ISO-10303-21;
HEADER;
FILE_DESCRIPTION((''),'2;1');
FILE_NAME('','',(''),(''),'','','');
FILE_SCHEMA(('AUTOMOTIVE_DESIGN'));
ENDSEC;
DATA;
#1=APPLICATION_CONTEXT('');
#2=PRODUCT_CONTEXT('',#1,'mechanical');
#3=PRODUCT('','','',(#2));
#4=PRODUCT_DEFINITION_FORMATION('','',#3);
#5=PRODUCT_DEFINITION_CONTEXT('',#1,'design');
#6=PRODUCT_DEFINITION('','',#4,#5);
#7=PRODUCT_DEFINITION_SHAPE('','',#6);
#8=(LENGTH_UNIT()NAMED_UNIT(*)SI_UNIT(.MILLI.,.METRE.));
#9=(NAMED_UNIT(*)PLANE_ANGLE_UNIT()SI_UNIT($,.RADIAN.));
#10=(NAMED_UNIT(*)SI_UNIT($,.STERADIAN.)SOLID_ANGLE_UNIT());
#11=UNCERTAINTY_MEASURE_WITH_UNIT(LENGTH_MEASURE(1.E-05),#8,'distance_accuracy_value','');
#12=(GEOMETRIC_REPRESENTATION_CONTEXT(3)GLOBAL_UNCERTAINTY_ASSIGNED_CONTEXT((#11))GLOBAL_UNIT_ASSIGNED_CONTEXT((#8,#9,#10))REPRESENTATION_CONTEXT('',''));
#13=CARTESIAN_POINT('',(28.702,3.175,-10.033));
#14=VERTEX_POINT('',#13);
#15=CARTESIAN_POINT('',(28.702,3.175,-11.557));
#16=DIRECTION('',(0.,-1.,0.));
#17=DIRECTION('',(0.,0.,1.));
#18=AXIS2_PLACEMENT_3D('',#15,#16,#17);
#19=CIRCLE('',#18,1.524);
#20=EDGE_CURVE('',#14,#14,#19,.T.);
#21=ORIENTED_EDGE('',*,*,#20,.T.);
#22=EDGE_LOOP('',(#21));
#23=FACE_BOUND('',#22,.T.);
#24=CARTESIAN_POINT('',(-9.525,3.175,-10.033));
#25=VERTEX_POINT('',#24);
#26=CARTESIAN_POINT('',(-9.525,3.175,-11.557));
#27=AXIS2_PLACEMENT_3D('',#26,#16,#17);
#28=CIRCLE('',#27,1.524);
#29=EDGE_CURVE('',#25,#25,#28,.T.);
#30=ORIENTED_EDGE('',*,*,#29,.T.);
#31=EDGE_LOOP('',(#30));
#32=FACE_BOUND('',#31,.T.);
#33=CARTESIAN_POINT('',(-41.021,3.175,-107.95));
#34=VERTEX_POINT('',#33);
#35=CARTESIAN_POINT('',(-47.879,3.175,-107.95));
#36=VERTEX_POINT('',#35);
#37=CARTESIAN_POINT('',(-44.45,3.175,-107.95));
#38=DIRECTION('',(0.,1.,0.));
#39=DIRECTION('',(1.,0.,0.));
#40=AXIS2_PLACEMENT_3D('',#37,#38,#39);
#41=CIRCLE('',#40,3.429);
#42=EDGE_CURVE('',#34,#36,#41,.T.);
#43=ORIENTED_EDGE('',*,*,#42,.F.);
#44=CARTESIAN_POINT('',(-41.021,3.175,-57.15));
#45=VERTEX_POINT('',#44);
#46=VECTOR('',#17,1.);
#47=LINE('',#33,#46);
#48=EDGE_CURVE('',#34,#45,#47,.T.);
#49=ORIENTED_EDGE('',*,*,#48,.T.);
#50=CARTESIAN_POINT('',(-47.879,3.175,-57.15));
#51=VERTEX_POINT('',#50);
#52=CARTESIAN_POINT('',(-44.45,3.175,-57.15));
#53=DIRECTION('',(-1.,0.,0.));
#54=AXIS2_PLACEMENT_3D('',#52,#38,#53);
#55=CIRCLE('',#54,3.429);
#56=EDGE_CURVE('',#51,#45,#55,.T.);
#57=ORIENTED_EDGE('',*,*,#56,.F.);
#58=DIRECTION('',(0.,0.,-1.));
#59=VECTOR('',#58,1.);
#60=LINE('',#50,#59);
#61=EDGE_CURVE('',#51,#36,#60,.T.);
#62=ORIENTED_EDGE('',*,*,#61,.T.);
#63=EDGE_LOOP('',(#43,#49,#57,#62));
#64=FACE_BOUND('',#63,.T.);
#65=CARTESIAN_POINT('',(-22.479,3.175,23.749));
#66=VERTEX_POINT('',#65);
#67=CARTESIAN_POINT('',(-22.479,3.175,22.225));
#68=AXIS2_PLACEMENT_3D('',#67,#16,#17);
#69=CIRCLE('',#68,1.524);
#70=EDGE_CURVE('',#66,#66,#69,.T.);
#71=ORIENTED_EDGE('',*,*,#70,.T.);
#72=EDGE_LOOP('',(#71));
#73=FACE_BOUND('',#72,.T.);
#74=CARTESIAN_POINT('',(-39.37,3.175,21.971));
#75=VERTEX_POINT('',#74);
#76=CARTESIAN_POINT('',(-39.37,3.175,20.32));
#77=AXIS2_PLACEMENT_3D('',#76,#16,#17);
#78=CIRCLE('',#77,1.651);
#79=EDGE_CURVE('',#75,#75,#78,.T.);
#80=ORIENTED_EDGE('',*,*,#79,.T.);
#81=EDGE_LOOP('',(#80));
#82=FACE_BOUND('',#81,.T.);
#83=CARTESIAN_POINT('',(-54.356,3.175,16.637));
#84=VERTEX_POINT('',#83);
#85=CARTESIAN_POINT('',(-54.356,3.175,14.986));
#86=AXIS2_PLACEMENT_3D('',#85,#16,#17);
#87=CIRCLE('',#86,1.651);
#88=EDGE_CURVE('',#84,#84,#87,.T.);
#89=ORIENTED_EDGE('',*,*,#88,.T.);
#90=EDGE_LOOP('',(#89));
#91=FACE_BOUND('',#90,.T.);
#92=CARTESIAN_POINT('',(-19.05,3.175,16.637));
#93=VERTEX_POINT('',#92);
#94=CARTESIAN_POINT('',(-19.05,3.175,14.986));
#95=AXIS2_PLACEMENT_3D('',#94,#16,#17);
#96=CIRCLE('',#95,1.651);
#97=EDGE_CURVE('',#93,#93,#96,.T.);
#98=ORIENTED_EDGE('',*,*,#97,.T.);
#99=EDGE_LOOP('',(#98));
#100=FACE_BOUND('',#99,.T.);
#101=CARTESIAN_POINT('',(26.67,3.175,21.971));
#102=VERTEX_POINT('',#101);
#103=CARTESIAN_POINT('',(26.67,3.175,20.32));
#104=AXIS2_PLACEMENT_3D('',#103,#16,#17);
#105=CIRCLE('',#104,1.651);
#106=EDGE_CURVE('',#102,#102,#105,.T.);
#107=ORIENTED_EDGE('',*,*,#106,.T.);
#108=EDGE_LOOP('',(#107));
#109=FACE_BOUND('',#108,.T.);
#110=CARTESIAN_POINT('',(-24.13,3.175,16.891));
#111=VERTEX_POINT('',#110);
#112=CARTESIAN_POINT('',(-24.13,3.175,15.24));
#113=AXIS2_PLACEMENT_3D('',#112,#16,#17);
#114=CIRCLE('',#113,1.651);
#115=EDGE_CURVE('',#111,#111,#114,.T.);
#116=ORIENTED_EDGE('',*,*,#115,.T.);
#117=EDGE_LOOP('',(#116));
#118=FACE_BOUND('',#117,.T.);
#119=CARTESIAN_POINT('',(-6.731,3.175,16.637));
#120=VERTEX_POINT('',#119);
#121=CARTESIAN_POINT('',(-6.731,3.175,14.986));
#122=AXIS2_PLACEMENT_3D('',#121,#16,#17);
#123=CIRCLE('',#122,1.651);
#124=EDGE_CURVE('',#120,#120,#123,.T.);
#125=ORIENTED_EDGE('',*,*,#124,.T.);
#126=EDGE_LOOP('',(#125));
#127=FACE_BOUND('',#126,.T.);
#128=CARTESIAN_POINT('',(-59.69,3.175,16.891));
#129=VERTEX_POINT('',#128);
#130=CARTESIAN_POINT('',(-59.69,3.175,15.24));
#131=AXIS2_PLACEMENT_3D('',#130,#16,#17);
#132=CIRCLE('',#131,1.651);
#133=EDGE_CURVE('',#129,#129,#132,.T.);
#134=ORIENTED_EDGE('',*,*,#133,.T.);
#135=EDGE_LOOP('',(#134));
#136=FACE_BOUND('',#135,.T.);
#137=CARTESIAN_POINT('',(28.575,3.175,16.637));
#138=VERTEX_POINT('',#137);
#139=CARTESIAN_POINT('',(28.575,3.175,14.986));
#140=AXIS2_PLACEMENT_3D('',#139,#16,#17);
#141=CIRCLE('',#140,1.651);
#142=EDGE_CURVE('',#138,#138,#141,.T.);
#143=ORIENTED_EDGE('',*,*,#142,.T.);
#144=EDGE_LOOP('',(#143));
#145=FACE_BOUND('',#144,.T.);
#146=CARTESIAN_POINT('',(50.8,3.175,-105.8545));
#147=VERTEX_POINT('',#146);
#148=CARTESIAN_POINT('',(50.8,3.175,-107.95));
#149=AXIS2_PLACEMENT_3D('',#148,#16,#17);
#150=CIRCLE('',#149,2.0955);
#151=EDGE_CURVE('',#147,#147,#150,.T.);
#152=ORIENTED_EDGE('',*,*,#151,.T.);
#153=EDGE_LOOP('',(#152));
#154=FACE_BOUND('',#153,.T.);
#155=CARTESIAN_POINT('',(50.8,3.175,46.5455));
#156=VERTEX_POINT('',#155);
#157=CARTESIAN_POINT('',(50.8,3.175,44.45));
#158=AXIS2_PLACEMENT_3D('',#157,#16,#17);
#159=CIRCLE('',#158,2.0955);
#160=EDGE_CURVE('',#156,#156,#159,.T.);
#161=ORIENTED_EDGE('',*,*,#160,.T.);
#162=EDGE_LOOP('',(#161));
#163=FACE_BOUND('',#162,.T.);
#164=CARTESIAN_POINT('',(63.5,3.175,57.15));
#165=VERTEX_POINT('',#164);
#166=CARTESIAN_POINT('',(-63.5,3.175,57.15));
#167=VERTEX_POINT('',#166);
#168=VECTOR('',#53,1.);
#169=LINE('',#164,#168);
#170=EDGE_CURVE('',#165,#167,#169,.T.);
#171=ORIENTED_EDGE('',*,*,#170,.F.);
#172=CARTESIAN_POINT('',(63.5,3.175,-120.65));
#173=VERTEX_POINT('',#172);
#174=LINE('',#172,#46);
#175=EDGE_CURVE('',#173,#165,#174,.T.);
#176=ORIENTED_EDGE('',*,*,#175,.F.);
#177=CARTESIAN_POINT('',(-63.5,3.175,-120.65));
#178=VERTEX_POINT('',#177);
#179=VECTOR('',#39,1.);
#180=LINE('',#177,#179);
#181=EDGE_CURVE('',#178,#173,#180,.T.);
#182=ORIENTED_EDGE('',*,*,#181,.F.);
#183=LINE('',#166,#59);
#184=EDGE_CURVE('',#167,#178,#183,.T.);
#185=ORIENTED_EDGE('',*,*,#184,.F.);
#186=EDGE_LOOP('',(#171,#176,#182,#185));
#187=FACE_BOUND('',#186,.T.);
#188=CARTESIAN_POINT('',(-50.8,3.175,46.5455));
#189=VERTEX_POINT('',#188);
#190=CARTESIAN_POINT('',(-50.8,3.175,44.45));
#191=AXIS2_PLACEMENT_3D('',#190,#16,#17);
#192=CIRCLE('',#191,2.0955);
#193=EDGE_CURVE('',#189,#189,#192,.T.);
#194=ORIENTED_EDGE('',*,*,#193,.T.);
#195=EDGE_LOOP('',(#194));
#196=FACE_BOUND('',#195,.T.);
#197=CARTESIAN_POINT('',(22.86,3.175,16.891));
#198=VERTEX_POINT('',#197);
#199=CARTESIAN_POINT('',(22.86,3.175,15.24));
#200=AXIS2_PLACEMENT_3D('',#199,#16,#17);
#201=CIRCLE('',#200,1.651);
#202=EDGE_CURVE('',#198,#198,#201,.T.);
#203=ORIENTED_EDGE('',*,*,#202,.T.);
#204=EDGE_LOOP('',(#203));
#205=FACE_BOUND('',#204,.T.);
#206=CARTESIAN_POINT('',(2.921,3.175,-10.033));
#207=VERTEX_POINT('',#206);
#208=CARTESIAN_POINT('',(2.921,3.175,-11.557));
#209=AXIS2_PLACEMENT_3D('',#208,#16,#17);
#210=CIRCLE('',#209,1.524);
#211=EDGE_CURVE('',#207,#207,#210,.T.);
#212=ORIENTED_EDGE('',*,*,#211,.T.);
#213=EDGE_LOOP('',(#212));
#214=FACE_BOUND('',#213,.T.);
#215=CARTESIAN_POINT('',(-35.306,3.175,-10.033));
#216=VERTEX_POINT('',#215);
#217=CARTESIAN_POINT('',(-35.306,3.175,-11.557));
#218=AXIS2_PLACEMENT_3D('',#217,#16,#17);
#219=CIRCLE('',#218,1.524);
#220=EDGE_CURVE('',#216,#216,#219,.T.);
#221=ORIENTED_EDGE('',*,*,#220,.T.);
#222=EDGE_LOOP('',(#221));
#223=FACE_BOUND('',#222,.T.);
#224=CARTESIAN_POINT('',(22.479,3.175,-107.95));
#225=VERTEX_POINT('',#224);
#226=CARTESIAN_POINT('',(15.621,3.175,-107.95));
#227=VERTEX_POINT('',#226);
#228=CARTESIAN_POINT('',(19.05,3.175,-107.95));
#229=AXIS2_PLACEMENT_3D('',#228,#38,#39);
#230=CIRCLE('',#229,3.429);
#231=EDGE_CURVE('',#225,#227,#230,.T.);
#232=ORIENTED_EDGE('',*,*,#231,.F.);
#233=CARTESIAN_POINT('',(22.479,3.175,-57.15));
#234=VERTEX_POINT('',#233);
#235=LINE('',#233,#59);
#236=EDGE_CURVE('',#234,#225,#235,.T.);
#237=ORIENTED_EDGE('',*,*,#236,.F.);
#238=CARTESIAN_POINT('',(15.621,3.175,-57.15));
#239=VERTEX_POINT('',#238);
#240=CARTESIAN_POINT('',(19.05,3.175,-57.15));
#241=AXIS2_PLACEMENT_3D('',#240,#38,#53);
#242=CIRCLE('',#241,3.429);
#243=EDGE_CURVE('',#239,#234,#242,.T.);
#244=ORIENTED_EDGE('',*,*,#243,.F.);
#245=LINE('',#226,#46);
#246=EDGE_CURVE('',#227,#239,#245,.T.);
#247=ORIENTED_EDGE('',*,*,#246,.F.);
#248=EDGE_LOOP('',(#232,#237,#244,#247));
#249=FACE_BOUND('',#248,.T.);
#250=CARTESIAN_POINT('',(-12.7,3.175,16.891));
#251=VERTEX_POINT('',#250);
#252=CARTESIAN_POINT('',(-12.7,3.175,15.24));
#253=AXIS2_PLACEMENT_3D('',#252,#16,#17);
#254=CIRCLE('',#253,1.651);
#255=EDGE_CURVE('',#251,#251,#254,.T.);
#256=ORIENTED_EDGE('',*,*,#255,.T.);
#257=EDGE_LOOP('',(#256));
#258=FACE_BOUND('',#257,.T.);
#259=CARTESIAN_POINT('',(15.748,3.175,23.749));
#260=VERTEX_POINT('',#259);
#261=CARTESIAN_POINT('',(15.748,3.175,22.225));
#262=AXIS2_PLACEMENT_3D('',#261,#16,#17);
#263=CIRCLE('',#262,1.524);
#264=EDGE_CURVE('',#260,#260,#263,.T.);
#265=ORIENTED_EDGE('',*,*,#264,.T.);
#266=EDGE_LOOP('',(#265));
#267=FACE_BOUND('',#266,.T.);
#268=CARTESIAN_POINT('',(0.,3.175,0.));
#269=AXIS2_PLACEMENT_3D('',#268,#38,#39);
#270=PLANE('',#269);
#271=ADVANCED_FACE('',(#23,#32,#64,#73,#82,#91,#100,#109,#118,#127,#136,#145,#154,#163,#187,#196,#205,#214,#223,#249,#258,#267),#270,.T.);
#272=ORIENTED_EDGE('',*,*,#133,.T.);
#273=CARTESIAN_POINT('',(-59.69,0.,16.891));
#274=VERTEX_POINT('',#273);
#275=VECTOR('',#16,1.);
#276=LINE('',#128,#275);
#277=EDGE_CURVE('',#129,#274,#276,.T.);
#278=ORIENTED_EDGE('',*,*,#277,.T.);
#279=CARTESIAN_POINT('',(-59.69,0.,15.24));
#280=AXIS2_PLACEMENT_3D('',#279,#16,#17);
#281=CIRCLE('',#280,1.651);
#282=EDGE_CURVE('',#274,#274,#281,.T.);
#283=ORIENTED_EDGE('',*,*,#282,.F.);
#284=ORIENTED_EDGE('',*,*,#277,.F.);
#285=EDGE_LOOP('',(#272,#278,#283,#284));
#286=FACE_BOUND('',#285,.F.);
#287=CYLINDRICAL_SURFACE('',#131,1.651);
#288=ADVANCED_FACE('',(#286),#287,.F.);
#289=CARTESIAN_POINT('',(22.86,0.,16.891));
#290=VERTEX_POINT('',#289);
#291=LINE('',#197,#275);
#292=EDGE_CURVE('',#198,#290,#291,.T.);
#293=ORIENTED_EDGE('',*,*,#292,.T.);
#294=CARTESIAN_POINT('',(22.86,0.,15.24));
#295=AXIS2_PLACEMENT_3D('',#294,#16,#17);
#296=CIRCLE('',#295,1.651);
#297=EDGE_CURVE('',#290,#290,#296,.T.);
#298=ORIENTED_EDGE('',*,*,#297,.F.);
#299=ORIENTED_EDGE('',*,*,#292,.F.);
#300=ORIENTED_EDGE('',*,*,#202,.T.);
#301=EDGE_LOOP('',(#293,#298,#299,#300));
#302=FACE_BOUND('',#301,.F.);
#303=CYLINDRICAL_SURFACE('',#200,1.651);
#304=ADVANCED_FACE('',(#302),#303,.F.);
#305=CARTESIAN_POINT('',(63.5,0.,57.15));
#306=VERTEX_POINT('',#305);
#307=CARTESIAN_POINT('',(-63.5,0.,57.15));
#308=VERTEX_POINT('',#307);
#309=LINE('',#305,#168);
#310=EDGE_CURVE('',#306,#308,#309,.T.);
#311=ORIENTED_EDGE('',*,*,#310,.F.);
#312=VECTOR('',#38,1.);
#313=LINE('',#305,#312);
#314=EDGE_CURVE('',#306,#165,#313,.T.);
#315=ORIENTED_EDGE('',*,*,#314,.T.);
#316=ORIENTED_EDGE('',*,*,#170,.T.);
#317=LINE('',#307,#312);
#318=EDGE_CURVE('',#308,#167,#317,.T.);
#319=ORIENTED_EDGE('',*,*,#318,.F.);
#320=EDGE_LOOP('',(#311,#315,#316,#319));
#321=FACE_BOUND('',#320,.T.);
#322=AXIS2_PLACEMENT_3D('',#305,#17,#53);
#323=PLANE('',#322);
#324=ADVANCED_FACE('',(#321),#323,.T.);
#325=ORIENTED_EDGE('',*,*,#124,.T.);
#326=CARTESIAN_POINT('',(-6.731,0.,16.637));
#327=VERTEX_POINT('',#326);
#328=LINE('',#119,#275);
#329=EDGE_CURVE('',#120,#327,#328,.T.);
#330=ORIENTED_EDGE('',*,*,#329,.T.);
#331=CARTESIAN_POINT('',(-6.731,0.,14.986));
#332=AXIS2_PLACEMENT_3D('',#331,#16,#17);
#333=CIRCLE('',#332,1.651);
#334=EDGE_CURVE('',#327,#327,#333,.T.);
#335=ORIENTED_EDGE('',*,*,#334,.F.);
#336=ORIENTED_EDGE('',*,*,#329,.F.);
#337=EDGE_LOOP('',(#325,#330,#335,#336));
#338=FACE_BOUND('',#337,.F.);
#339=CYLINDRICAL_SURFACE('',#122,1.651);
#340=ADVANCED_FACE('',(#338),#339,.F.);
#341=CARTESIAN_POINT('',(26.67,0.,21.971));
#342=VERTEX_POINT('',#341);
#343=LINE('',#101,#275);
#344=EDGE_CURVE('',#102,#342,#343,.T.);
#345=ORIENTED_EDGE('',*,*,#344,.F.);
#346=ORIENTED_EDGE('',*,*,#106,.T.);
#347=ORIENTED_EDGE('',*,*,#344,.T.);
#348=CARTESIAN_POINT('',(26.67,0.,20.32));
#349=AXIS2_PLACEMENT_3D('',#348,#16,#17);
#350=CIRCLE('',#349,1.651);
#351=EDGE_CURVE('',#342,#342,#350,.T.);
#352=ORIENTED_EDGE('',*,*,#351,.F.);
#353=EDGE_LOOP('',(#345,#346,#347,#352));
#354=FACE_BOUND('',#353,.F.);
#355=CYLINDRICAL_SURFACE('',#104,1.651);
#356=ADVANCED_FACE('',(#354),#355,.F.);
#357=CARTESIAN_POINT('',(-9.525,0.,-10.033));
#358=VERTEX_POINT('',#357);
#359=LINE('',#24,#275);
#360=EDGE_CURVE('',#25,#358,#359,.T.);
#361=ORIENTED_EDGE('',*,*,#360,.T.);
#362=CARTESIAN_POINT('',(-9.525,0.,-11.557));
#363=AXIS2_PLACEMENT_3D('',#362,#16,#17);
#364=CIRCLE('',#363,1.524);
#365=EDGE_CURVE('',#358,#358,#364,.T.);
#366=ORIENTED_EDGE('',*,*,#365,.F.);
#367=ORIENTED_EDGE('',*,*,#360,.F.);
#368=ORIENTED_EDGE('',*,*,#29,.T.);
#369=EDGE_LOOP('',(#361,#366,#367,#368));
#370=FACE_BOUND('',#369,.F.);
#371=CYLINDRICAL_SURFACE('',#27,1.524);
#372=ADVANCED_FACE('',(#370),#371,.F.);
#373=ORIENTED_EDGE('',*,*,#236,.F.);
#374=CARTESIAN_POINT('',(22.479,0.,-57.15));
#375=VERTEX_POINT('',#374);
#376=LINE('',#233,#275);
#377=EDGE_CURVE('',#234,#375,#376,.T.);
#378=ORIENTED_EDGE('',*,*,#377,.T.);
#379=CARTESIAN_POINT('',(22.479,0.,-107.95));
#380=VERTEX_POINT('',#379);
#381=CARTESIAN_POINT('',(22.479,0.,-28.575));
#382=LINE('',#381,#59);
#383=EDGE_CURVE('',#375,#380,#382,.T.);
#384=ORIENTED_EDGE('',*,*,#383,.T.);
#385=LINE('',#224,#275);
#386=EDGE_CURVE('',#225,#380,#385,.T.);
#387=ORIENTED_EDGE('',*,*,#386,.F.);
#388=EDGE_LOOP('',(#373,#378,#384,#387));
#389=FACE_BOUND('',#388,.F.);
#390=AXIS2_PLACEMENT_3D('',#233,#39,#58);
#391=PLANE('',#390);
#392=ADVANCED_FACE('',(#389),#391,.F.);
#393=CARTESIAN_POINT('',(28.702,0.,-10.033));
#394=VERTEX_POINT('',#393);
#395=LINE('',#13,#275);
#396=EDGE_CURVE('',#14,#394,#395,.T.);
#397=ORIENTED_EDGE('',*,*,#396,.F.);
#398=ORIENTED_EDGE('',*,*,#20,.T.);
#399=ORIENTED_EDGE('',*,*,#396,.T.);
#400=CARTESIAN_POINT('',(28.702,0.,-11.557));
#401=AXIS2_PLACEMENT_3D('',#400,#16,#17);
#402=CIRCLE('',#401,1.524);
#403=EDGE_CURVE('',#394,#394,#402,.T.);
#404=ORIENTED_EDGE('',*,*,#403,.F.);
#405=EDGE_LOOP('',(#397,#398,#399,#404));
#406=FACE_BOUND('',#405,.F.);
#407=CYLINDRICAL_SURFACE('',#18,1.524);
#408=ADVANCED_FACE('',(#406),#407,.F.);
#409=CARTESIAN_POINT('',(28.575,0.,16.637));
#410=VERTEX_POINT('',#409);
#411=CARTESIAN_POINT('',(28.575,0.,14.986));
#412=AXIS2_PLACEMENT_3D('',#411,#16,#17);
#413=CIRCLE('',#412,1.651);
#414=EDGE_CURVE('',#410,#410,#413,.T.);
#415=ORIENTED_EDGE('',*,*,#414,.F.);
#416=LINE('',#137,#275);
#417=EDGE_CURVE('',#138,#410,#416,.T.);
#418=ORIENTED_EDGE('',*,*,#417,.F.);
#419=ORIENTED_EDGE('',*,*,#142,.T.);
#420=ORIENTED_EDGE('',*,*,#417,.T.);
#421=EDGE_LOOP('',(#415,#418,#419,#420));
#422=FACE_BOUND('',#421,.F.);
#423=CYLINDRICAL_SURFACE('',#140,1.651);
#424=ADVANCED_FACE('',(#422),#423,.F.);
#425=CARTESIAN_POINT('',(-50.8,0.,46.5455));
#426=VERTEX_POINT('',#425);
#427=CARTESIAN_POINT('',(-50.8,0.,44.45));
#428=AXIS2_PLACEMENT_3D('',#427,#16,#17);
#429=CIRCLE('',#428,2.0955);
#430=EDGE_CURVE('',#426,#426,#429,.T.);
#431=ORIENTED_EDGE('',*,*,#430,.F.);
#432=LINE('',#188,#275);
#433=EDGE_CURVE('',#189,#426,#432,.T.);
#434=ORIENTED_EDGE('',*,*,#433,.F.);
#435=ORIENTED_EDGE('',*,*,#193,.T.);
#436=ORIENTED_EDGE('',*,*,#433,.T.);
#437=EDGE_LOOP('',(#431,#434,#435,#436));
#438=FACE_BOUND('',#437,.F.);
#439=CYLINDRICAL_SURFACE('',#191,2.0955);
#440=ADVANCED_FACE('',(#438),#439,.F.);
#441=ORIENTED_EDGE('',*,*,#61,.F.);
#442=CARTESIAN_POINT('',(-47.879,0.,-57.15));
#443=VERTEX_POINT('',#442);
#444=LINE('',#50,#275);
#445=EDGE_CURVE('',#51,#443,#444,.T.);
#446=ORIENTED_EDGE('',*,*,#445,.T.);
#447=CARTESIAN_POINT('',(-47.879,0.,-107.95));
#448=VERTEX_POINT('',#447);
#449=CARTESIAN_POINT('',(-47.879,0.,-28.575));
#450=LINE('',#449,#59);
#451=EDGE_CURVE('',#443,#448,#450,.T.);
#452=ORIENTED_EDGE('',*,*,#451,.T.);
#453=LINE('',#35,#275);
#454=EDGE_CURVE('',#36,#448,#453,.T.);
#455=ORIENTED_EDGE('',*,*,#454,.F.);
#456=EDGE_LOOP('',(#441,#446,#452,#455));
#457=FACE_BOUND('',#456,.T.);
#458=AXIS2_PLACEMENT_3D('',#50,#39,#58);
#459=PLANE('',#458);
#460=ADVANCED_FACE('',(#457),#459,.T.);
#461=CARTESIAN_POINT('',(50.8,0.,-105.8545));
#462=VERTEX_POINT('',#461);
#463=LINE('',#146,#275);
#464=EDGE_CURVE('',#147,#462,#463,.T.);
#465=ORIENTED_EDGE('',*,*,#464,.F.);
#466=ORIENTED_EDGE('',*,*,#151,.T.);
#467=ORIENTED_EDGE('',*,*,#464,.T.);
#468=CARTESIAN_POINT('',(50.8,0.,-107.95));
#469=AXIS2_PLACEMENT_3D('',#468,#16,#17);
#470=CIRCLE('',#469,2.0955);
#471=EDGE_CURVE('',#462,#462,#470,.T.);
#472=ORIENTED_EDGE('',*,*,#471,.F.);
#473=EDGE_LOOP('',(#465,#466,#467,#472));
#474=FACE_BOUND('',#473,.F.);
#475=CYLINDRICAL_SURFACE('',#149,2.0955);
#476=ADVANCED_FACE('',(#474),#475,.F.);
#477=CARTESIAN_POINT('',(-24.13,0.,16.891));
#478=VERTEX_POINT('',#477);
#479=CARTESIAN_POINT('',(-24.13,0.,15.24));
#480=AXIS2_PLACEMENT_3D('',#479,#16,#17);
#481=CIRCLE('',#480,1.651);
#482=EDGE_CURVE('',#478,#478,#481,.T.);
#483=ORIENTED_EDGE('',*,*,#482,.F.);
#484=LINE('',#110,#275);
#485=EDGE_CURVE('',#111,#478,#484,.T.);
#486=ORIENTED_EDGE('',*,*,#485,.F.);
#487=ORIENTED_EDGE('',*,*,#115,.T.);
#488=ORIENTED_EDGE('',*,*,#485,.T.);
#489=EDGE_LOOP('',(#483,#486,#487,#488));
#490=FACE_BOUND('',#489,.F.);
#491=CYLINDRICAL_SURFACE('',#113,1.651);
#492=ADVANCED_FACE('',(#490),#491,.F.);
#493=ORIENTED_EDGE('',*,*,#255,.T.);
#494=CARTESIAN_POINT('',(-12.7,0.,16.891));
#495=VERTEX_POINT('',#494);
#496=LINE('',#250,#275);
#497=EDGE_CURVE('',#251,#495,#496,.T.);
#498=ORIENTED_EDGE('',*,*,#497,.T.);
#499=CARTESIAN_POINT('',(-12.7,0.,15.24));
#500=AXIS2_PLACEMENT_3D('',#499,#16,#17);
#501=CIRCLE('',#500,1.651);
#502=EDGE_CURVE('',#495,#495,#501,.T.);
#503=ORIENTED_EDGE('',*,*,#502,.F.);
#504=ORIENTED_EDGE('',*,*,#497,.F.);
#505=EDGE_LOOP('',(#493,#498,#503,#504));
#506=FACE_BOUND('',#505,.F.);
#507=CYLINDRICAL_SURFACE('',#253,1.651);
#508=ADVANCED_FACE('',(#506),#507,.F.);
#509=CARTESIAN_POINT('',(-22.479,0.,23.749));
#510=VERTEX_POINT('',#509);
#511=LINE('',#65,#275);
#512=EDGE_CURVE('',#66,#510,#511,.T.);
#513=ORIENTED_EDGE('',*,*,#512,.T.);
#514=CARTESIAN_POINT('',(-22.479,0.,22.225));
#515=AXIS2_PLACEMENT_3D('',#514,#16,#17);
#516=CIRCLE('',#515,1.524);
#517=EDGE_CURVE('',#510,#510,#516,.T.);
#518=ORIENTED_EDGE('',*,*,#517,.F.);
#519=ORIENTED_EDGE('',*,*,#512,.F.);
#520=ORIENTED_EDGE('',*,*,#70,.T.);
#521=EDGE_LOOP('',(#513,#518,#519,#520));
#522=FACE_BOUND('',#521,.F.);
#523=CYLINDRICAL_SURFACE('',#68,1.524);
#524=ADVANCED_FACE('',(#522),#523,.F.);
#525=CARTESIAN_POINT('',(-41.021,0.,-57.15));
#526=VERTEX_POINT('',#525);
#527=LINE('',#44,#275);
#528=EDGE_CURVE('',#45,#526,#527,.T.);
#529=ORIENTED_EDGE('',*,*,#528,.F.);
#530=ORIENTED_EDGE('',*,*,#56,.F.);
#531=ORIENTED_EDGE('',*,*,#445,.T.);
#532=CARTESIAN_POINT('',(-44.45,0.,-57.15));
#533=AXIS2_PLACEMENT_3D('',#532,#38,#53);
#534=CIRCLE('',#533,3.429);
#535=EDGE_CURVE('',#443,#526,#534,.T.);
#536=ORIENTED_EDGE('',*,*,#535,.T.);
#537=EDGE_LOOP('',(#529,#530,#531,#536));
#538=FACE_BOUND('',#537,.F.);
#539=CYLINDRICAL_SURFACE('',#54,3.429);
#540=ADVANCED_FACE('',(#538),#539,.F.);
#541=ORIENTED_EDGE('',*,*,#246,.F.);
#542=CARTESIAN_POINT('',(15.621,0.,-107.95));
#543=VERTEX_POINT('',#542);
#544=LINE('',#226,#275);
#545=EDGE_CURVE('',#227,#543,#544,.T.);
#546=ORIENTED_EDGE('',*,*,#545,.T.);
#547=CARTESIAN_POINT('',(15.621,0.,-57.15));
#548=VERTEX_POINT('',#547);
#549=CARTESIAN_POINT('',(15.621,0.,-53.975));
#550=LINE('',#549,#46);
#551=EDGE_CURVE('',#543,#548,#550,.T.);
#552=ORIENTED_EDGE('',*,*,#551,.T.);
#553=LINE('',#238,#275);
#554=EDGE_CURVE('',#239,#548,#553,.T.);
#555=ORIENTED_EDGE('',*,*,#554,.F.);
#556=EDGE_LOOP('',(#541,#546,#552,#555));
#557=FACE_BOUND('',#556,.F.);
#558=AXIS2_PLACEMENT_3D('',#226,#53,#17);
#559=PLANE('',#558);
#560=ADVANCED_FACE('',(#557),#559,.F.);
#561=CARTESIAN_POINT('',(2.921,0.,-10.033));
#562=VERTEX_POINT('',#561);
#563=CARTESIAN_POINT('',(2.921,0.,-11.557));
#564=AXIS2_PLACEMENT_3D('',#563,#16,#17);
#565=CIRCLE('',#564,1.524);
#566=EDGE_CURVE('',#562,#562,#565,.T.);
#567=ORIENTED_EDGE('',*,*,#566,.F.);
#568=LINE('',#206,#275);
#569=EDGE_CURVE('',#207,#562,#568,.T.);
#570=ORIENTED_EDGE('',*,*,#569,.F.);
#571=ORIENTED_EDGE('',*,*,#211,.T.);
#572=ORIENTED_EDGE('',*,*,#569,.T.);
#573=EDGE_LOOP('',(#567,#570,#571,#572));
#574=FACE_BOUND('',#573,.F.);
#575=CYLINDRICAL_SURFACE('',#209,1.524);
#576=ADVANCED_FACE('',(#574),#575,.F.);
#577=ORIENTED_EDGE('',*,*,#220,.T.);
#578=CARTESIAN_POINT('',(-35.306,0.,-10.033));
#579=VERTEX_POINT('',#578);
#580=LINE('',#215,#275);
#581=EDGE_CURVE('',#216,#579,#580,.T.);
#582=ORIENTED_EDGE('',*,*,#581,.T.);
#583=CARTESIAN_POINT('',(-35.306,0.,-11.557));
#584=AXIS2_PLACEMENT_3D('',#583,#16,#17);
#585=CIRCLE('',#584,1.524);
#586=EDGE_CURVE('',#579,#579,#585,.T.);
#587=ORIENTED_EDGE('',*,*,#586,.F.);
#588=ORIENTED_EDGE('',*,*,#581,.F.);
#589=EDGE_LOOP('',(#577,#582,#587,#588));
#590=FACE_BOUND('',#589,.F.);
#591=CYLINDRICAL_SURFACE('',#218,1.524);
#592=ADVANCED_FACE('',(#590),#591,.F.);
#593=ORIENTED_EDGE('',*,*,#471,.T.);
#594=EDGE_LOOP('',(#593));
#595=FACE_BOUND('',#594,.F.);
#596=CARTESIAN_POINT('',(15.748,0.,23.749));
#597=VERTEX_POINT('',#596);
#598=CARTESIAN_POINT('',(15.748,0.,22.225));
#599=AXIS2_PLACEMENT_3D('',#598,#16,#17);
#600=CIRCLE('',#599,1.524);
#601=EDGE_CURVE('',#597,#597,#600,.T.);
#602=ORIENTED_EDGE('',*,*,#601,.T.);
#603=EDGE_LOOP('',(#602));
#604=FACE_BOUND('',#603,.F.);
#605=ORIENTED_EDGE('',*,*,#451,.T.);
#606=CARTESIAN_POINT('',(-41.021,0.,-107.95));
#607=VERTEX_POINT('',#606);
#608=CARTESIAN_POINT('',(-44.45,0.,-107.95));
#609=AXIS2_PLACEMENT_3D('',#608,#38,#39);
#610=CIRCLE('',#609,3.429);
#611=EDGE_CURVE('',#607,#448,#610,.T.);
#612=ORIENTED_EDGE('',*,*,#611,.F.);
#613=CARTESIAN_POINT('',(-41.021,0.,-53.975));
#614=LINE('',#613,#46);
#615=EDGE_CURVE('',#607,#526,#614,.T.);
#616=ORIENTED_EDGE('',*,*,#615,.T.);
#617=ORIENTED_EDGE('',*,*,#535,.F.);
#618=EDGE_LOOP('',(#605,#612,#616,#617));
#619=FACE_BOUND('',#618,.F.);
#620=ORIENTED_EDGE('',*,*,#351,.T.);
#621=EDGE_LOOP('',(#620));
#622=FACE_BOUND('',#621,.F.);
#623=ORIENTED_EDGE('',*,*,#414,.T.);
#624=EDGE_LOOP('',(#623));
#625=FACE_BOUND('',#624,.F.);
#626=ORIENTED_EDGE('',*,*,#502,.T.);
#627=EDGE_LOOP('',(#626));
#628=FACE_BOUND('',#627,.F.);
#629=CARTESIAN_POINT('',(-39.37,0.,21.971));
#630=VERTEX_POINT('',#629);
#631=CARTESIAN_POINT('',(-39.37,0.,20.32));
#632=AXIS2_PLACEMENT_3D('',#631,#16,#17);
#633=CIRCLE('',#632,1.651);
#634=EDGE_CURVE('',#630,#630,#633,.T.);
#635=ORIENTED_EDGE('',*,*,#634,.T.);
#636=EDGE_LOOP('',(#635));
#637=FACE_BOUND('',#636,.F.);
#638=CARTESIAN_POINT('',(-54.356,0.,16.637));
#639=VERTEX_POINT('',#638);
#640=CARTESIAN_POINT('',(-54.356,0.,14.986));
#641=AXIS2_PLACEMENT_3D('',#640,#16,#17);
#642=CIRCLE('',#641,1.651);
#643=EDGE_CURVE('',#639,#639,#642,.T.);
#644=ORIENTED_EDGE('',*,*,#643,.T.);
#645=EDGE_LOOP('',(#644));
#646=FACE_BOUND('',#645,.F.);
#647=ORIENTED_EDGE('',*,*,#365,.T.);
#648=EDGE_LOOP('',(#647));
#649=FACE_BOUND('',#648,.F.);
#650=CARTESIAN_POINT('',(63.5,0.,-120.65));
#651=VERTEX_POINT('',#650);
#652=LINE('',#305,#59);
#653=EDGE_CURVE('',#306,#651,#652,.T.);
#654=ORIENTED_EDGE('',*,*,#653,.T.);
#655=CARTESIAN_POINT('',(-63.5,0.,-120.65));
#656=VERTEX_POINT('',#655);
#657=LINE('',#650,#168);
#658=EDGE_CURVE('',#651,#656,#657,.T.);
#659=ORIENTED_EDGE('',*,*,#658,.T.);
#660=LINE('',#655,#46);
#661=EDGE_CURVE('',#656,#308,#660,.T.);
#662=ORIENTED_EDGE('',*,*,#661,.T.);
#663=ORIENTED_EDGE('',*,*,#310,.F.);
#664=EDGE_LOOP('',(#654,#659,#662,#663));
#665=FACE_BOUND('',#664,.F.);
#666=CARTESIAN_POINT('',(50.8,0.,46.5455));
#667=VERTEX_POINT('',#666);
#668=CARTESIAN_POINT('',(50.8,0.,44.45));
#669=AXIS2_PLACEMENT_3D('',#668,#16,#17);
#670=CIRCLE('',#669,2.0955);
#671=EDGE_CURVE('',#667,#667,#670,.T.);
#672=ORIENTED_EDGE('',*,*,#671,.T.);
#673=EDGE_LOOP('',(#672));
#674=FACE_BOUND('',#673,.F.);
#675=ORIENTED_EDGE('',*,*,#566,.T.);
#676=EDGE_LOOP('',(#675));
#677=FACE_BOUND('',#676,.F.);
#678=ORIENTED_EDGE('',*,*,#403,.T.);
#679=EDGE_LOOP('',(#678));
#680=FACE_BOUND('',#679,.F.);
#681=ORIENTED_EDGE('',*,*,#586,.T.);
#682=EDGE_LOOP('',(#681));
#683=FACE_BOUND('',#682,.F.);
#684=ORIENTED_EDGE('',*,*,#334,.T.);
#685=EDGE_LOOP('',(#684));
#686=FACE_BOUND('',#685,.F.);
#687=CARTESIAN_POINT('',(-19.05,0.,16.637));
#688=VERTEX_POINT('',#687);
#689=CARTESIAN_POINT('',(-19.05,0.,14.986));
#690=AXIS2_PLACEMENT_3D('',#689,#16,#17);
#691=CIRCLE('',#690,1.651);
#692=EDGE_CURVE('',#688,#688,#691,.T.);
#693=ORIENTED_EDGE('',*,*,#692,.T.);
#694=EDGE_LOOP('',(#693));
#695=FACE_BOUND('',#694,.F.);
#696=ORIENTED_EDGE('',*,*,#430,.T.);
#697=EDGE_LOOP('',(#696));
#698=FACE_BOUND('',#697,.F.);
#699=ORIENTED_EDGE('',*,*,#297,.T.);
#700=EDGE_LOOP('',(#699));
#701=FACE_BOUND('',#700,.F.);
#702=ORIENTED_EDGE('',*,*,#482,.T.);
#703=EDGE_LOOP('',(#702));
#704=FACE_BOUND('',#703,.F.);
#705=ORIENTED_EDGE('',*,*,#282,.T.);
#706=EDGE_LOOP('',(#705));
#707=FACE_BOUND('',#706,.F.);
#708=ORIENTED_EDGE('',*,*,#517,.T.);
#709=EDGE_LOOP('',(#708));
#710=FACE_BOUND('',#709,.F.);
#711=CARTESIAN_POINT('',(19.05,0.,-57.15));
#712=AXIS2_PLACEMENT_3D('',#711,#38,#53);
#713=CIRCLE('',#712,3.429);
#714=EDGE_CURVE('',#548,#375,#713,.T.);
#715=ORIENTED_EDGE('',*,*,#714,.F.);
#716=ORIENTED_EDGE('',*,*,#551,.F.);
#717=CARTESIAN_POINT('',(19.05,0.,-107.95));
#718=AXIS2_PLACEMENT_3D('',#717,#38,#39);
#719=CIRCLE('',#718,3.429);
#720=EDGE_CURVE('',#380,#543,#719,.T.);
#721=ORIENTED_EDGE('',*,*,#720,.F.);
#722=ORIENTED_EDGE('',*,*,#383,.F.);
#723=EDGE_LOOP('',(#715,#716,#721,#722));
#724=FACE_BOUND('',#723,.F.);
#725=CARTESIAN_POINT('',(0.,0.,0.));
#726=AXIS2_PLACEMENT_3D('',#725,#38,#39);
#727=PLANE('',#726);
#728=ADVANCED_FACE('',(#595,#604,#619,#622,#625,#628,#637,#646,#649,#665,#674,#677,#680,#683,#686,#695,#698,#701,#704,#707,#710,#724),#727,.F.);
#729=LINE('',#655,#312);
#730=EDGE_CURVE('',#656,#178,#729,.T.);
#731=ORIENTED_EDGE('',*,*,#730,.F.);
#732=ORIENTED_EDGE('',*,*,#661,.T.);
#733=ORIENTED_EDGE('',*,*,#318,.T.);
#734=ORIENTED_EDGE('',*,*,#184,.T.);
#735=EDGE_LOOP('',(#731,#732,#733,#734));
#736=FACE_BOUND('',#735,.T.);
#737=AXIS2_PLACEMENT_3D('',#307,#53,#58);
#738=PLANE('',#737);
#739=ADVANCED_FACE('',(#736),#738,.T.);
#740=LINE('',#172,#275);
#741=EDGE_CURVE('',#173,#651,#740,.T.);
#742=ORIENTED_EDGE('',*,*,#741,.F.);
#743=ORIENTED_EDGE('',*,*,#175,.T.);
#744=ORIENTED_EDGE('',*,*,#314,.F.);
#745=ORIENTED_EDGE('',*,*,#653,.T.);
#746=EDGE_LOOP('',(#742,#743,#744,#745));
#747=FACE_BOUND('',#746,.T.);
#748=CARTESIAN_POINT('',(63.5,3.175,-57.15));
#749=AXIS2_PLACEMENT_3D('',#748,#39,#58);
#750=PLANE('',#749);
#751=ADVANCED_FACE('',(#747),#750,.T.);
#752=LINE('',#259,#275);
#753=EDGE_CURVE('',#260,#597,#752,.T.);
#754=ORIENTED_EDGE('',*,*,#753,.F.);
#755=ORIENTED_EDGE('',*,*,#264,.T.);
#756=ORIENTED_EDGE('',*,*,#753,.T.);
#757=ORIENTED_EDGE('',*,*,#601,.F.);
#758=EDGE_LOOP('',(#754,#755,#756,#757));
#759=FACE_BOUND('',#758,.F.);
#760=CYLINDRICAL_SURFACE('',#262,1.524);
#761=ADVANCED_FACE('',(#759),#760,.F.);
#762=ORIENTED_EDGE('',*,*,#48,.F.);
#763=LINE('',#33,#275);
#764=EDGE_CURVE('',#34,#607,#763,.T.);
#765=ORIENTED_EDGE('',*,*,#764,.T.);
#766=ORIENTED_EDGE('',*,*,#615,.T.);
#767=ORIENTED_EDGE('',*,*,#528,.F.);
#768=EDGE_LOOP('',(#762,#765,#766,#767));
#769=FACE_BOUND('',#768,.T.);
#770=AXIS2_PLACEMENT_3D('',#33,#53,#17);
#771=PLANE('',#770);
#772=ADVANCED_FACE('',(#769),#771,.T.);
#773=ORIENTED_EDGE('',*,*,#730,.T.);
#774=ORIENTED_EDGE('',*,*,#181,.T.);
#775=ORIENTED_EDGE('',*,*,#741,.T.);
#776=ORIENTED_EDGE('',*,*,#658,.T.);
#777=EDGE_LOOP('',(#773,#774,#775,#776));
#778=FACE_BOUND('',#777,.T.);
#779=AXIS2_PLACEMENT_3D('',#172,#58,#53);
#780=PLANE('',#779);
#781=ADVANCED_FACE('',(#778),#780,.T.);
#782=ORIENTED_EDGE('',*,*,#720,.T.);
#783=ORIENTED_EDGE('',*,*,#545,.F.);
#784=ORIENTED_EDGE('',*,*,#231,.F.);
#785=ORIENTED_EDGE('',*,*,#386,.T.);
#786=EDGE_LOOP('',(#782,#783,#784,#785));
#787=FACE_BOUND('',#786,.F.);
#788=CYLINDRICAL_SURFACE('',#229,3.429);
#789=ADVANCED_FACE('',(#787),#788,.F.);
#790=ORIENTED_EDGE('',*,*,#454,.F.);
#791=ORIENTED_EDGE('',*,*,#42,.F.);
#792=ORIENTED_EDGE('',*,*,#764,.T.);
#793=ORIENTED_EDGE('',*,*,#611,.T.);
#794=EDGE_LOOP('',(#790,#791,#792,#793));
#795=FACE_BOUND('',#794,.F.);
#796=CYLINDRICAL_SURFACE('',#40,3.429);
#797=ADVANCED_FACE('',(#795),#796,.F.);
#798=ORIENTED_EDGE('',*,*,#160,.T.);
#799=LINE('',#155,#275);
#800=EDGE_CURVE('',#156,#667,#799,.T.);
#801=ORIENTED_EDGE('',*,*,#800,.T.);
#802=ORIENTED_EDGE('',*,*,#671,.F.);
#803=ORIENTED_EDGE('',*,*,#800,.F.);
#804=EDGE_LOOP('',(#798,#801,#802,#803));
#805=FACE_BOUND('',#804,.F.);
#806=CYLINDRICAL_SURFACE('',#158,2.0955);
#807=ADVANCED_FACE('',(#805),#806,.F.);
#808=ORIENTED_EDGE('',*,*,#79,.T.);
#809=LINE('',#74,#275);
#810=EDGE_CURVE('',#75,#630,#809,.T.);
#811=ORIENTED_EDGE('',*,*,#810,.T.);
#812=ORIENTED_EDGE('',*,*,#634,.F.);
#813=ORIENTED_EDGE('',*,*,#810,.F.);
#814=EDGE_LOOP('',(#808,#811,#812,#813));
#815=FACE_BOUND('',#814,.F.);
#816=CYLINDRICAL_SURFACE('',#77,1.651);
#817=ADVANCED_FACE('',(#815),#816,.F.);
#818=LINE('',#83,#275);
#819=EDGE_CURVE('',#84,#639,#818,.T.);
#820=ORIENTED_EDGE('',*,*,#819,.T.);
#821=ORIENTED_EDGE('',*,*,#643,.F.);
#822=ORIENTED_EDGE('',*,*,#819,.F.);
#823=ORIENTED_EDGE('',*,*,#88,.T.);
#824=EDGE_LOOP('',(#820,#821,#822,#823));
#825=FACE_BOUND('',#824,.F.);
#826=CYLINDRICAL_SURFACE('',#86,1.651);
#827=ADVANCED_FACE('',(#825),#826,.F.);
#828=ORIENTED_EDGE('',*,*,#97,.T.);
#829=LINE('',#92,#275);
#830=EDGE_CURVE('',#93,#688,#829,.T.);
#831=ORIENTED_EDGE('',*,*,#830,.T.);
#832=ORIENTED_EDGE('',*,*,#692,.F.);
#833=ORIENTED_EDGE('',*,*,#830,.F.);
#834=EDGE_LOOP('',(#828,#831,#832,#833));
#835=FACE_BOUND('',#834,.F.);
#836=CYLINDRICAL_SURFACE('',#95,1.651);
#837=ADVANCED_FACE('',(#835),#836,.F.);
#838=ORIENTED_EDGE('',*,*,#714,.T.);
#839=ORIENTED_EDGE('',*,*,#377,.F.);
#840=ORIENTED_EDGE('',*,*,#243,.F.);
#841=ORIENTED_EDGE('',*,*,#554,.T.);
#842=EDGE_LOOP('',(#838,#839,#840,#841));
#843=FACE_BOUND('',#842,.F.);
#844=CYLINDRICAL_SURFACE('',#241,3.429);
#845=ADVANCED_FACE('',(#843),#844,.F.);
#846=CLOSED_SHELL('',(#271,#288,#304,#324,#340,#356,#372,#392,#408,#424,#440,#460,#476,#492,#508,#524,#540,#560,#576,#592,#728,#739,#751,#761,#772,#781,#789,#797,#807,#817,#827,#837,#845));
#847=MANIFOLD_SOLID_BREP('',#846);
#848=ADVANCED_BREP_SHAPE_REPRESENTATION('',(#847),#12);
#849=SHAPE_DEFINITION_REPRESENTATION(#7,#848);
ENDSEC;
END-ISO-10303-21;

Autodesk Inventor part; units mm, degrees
ref_plane "YZ Plane" through (0, 0, 0) normal (1, 0, 0) x (0, 1, 0)
ref_plane "XZ Plane" through (0, 0, 0) normal (0, 1, 0) x (-1, 0, 0)
ref_plane "XY Plane" through (0, 0, 0) normal (0, 0, 1) x (1, 0, 0)
sketch "Sketch1" plane through (0, 0, 0) normal (0, 1, 0) x (-1, 0, 0)
  line L0 (-63.5, 57.15) -> (63.5, 57.15)
  line L1 (63.5, 57.15) -> (63.5, -57.15)
  line L2 (63.5, -57.15) -> (-63.5, -57.15)
  line L3 (-63.5, -57.15) -> (-63.5, 57.15)
  line L4 (-63.5, 57.15) -> (63.5, -57.15) construction
  line L5 (63.5, 57.15) -> (-63.5, -57.15) construction
  line L6 (63.5, -57.15) -> (-38.1, -57.15)
  line L7 (-38.1, -57.15) -> (-38.1, -120.65)
  line L8 (-38.1, -120.65) -> (63.5, -120.65)
  line L9 (63.5, -120.65) -> (63.5, -57.15)
  line L10 (-38.1, -57.15) -> (-63.5, -57.15)
  line L11 (-63.5, -57.15) -> (-63.5, -120.65)
  line L12 (-63.5, -120.65) -> (-38.1, -120.65)
  line L13 (-38.1, -120.65) -> (-38.1, -57.15)
  point P0 (0, 0)
  dimension "d0" = 127
  dimension "d1" = 114.3
  dimension "d2" = 63.5
  dimension "d3" = 101.6
extrude "Extrusion1" add sketch "Sketch1" along normal blind 3.175 contours L0 L1 L2 L3 | L9 L8 L7 L2
sketch "Sketch12" plane through (0, 3.175, 0) normal (0, 1, 0) x (1, 0, 0)
  line L0 (38.1, 57.15) -> (63.5, 57.15)
  line L1 (63.5, 57.15) -> (63.5, 120.65)
  line L2 (63.5, 120.65) -> (38.1, 120.65)
  line L3 (38.1, 120.65) -> (38.1, 57.15)
  point P0 (0, 0)
extrude "Extrusion3" add sketch "Sketch12" against normal blind 3.175
sketch "Sketch2" plane through (0, 3.175, 0) normal (0, 1, 0) x (1, 0, 0)
  line L0 (-63.5, 120.65) -> (-63.5, -57.15) projected
  line L1 (-63.5, -57.15) -> (63.5, -57.15) projected
  line L2 (63.5, -57.15) -> (63.5, 57.15) projected
  line L3 (63.5, 57.15) -> (38.1, 57.15) projected
  line L4 (38.1, 57.15) -> (-63.5, 57.15) construction
  line L5 (-63.5, 57.15) -> (-63.5, -44.45) construction
  line L6 (-63.5, -44.45) -> (38.1, -44.45) construction
  line L7 (38.1, -44.45) -> (38.1, 57.15) construction
  line L8 (50.8, 57.15) -> (50.8, -57.15) construction
  line L9 (-63.5, -44.45) -> (63.5, -44.45) construction
  point P0 (0, 0)
  point P1 (50.8, -44.45)
  point P2 (50.8, 44.45)
  point P3 (-50.8, -44.45)
  dimension "d7" = 101.6
  dimension "d8" = 101.6
  dimension "d9" = 12.7
  dimension "d10" = 12.7
  dimension "d11" = 12.7
hole "Hole1" at (50.8, 3.175, 44.45) at (-50.8, 3.175, 44.45) direction (0, -1, 0) diameter 4.191 end through all
sketch "Sketch3" plane through (0, 3.175, 0) normal (0, 1, 0) x (1, 0, 0)
  line L0 (38.1, 57.15) -> (38.1, 120.65) projected
  line L1 (38.1, 120.65) -> (-63.5, 120.65) projected
  line L2 (19.05, 107.95) -> (19.05, 57.15) construction
  line L3 (15.621, 107.95) -> (15.621, 57.15)
  line L4 (22.479, 57.15) -> (22.479, 107.95)
  arc A0 (22.479, 107.95) -> (15.621, 107.95) centre (19.05, 107.95) ccw
  arc A1 (15.621, 57.15) -> (22.479, 57.15) centre (19.05, 57.15) ccw
  line L5 (-12.7, 120.65) -> (-12.7, 57.15) construction
  line L6 (-44.45, 107.95) -> (-44.45, 57.15) construction
  line L7 (-41.021, 107.95) -> (-41.021, 57.15)
  line L8 (-47.879, 57.15) -> (-47.879, 107.95)
  arc A2 (-41.021, 107.95) -> (-47.879, 107.95) centre (-44.45, 107.95) ccw
  arc A3 (-47.879, 57.15) -> (-41.021, 57.15) centre (-44.45, 57.15) ccw
  point P0 (0, 0)
  point P1 (19.05, 82.55)
  point P2 (-44.45, 82.55)
  dimension "d19" = 6.858
  dimension "d20" = 19.05
  dimension "d21" = 12.7
  dimension "d22" = 50.8
extrude "Extrusion2" cut sketch "Sketch3" against normal through all
sketch "Sketch4" plane through (0, 3.175, 0) normal (0, 1, 0) x (1, 0, 0)
  arc A0 (15.621, 57.15) -> (22.479, 57.15) centre (19.05, 57.15) ccw projected
  line L0 (15.621, 57.15) -> (15.621, 107.95) projected
  arc A1 (22.479, 107.95) -> (15.621, 107.95) centre (19.05, 107.95) ccw projected
  line L1 (22.479, 107.95) -> (22.479, 57.15) projected
  arc A2 (-41.021, 107.95) -> (-47.879, 107.95) centre (-44.45, 107.95) ccw projected
  line L2 (-41.021, 107.95) -> (-41.021, 57.15) projected
  arc A3 (-47.879, 57.15) -> (-41.021, 57.15) centre (-44.45, 57.15) ccw projected
  line L3 (-47.879, 57.15) -> (-47.879, 107.95) projected
  circle A4 centre (50.8, 44.45) radius 3.2385 projected
  circle A5 centre (50.8, -44.45) radius 2.0955 projected
  circle A6 centre (-50.8, -44.45) radius 2.0955 projected
  line L4 (38.1, 57.15) -> (38.1, 120.65) projected
  line L5 (38.1, 120.65) -> (-63.5, 120.65) projected
  line L6 (-63.5, 120.65) -> (-63.5, -57.15) projected
  line L7 (-63.5, -57.15) -> (63.5, -57.15) projected
  line L8 (63.5, -57.15) -> (63.5, 57.15) projected
  line L9 (63.5, 57.15) -> (38.1, 57.15) projected
  line L10 (38.1, 57.15) -> (38.1, -57.15) construction
  line L11 (-63.5, -31.75) -> (63.5, -31.75) construction
  line L12 (-63.5, -25.4) -> (63.5, -25.4) construction
  line L13 (31.75, 53.1705) -> (31.75, -25.4) construction
  point P0 (0, 0)
  dimension "d25" = 25.4
  dimension "d156" = 31.75
  dimension "d157" = 31.75
sketch "battery buzzer/ SmartSensorPowered" plane through (0, 3.175, 0) normal (0, 1, 0) x (1, 0, 0)
  line L0 (31.75, -12.7) -> (5.08, -12.7)
  line L1 (5.08, -12.7) -> (5.08, 34.29)
  line L2 (5.08, 34.29) -> (31.75, 34.29)
  line L3 (31.75, 34.29) -> (31.75, -12.7)
  circle A0 centre (29.972, -10.668) radius 1.1913
  circle A1 centre (7.62, -10.668) radius 1.1913
  line L4 (-1.27, -12.7) -> (-27.94, -12.7)
  line L5 (-27.94, -12.7) -> (-27.94, 34.29)
  line L6 (-27.94, 34.29) -> (-1.27, 34.29)
  line L7 (-1.27, 34.29) -> (-1.27, -12.7)
  circle A2 centre (-3.048, -11.2367) radius 1.1913
  circle A3 centre (-25.4, -11.2367) radius 1.1913
  line L8 (-34.29, -12.7) -> (-60.96, -12.7)
  line L9 (-60.96, -12.7) -> (-60.96, 34.29)
  line L10 (-60.96, 34.29) -> (-34.29, 34.29)
  line L11 (-34.29, 34.29) -> (-34.29, -12.7)
  circle A4 centre (-36.068, -11.2367) radius 1.1913
  circle A5 centre (-58.42, -11.2367) radius 1.1913
  line L12 (-63.5, -57.15) -> (63.5, -57.15) projected
  dimension "d242" = 26.67
  dimension "d248" = 46.99
  dimension "d251" = 2.3825
  dimension "d257" = 1.778
  dimension "d258" = 2.032
  dimension "d259" = 2.032
  dimension "d266" = 2.54
  dimension "d284" = 6.35
  dimension "d295" = 44.45
sketch "controller" plane through (0, 3.175, 0) normal (0, 1, 0) x (1, 0, 0)
  line L0 (-63.5, 120.65) -> (-63.5, -57.15) projected
  line L1 (63.5, -57.15) -> (63.5, 57.15) projected
  line L2 (-63.5, -57.15) -> (-63.5, -19.05) construction
  line L3 (-63.5, -57.15) -> (-63.5, -25.4) construction
  line L4 (-63.5, -25.4) -> (63.5, -25.4) construction
  line L5 (31.75, -25.4) -> (31.75, 57.15) construction
  line L6 (31.75, -25.4) -> (-44.45, -25.4)
  line L7 (-44.45, -25.4) -> (-44.45, 50.8)
  line L8 (-44.45, 50.8) -> (31.75, 50.8)
  line L9 (31.75, 50.8) -> (31.75, -25.4)
  circle A0 centre (26.67, -20.32) radius 1.651
  circle A1 centre (-39.37, -20.32) radius 1.651
  circle A2 centre (26.67, 45.72) radius 1.651
  circle A3 centre (-39.37, 45.72) radius 1.651
  point P0 (0, 0)
  dimension "d46" = 76.2
  dimension "d47" = 76.2
  dimension "d108" = 3.302
  dimension "d109" = 3.302
  dimension "d110" = 3.302
  dimension "d111" = 3.302
  dimension "d112" = 5.08
  dimension "d113" = 5.08
  dimension "d114" = 5.08
  dimension "d115" = 5.08
  dimension "d116" = 5.08
  dimension "d117" = 5.08
  dimension "d118" = 5.08
  dimension "d119" = 5.08
sketch "grizzly_bear" plane through (0, 3.175, 0) normal (0, 1, 0) x (1, 0, 0)
  line L0 (-63.5, 120.65) -> (-63.5, -57.15) projected
  line L1 (-63.5, -17.78) -> (63.5, -17.78) construction
  line L2 (31.75, -17.78) -> (-9.525, -17.78)
  line L3 (-15.875, -17.78) -> (-57.15, -17.78)
  line L4 (-57.15, -17.78) -> (-57.15, 58.42)
  line L5 (-57.15, 58.42) -> (-15.875, 58.42)
  line L6 (-15.875, 58.42) -> (-15.875, -17.78)
  line L7 (31.75, -17.78) -> (31.75, 58.42)
  line L8 (31.75, 58.42) -> (-9.525, 58.42)
  line L9 (-9.525, 58.42) -> (-9.525, -17.78)
  line L10 (63.5, 57.15) -> (63.5, 50.8) construction
  circle A0 centre (28.575, -14.986) radius 1.651
  circle A1 centre (-6.731, -14.986) radius 1.651
  circle A2 centre (28.575, 55.626) radius 1.651
  line L11 (63.5, -57.15) -> (63.5, 57.15) projected
  circle A3 centre (-19.05, -14.986) radius 1.651
  circle A4 centre (-54.356, -14.986) radius 1.651
  line L12 (-63.5, -25.4) -> (63.5, -25.4) construction
  point P0 (0, 0)
  point P1 (-15.875, -17.78)
  point P2 (-57.15, -17.78)
  dimension "d38" = 41.275
  dimension "d39" = 6.35
  dimension "d41" = 76.2
  dimension "d120" = 3.302
  dimension "d121" = 3.175
  dimension "d122" = 2.794
  dimension "d123" = 3.302
  dimension "d124" = 2.794
  dimension "d125" = 2.794
  dimension "d126" = 3.302
  dimension "d127" = 2.794
  dimension "d128" = 3.175
  dimension "d286" = 7.62
sketch "koala_bear" plane through (0, 3.175, 0) normal (0, 1, 0) x (1, 0, 0)
  line L0 (-63.5, 120.65) -> (-63.5, -57.15) projected
  line L1 (-63.5, -57.15) -> (63.5, -57.15) projected
  line L2 (63.5, -57.15) -> (63.5, 57.15) projected
  line L3 (-63.5, -25.4) -> (63.5, -25.4) construction
  line L4 (31.75, -57.15) -> (31.75, 57.15) construction
  line L5 (31.75, -25.4) -> (-0.127, -25.4)
  line L6 (-0.127, -25.4) -> (-0.127, 14.605)
  line L7 (-0.127, 14.605) -> (31.75, 14.605)
  line L8 (31.75, -25.4) -> (31.75, 14.605)
  line L9 (-6.477, -25.4) -> (-6.477, 14.605)
  line L10 (-6.477, 14.605) -> (-38.354, 14.605)
  line L11 (-38.354, 14.605) -> (-38.354, -25.4)
  line L12 (-6.477, -25.4) -> (-38.354, -25.4)
  circle A0 centre (28.702, 11.557) radius 1.524
  circle A1 centre (2.921, 11.557) radius 1.524
  circle A2 centre (2.921, -4.572) radius 1.524
  circle A3 centre (15.748, -22.225) radius 1.524
  circle A4 centre (-22.479, -22.225) radius 1.524
  circle A5 centre (-35.306, 11.557) radius 1.524
  circle A6 centre (-9.525, 11.557) radius 1.524
  point P0 (0, 0)
  dimension "d58" = 31.877
  dimension "d59" = 40.005
  dimension "d145" = 3.048
  dimension "d146" = 3.048
  dimension "d147" = 3.048
  dimension "d148" = 3.048
  dimension "d149" = 3.048
  dimension "d150" = 3.048
  dimension "d151" = 3.048
  dimension "d152" = 19.177
  dimension "d153" = 3.048
  dimension "d154" = 3.175
  dimension "d155" = 16.002
sketch "smartsensor" plane through (0, 3.175, 0) normal (0, 1, 0) x (1, 0, 0)
  line L0 (-63.5, 120.65) -> (-63.5, -57.15) projected
  line L1 (63.5, -57.15) -> (63.5, 57.15) projected
  line L2 (-63.5, -25.4) -> (63.5, -25.4) construction
  line L3 (31.75, 54.3858) -> (31.75, -25.4) construction
  line L4 (24.13, -25.4) -> (-3.81, -25.4)
  line L5 (-3.81, -25.4) -> (-3.81, 7.62)
  line L6 (-3.81, 7.62) -> (24.13, 7.62)
  line L7 (24.13, 7.62) -> (24.13, -25.4)
  line L8 (-10.16, -25.4) -> (-38.1, -25.4)
  line L9 (-38.1, -25.4) -> (-38.1, 7.62)
  line L10 (-38.1, 7.62) -> (-10.16, 7.62)
  line L11 (-10.16, 7.62) -> (-10.16, -25.4)
  circle A0 centre (21.59, -21.59) radius 1.1913
  circle A1 centre (17.78, -21.59) radius 1.1913
  circle A2 centre (13.97, -21.59) radius 1.1913
  circle A3 centre (10.16, -21.59) radius 1.1913
  circle A4 centre (6.35, -21.59) radius 1.1913
  circle A5 centre (2.54, -21.59) radius 1.1913
  circle A6 centre (-1.27, -21.59) radius 1.1913
  circle A7 centre (-12.7, -21.59) radius 1.1913
  circle A8 centre (-16.51, -21.59) radius 1.1913
  circle A9 centre (-20.32, -21.59) radius 1.1913
  circle A10 centre (-24.13, -21.59) radius 1.1913
  circle A11 centre (-27.94, -21.59) radius 1.1913
  circle A12 centre (-31.75, -21.59) radius 1.1913
  circle A13 centre (-35.56, -21.59) radius 1.1913
  point P0 (0, 0)
  dimension "d64" = 27.94
  dimension "d65" = 33.02
  dimension "d129" = 2.3825
  dimension "d131" = 2.54
  dimension "d137" = 3.81
  dimension "d138" = 3.81
  dimension "d139" = 3.81
  dimension "d140" = 3.81
  dimension "d141" = 3.81
  dimension "d143" = 3.81
  dimension "d144" = 2.54
  dimension "d194" = 7.62
  dimension "d287" = 3.81
sketch "team_flag" plane through (0, 3.175, 0) normal (0, 1, 0) x (1, 0, 0)
  line L0 (-63.5, 120.65) -> (-63.5, -57.15) projected
  line L1 (63.5, -57.15) -> (63.5, 57.15) projected
  line L2 (31.75, 51.8358) -> (31.75, -17.78) construction
  line L3 (25.4, -17.78) -> (-15.24, -17.78)
  line L4 (-15.24, -17.78) -> (-15.24, 22.86)
  line L5 (-15.24, 22.86) -> (25.4, 22.86)
  line L6 (25.4, 22.86) -> (25.4, -17.78)
  line L7 (-21.59, 22.86) -> (-21.59, -17.78)
  line L8 (-21.59, 22.86) -> (-62.23, 22.86)
  line L9 (-62.23, 22.86) -> (-62.23, -17.78)
  line L10 (-62.23, -17.78) -> (-21.59, -17.78)
  circle A0 centre (22.86, 20.32) radius 1.651
  circle A1 centre (-12.7, 20.32) radius 1.651
  circle A2 centre (-12.7, -15.24) radius 1.651
  circle A3 centre (22.86, -15.24) radius 1.651
  line L11 (-63.5, -25.4) -> (63.5, -25.4) construction
  circle A4 centre (-24.13, 20.32) radius 1.651
  circle A5 centre (-59.69, 20.32) radius 1.651
  circle A6 centre (-59.69, -15.24) radius 1.651
  circle A7 centre (-24.13, -15.24) radius 1.651
  point P0 (0, 0)
  point P1 (-21.59, -17.78)
  point P2 (-62.23, -17.78)
  point P3 (-62.23, 22.86)
  point P4 (-21.59, 22.86)
  dimension "d78" = 40.64
  dimension "d81" = 40.64
  dimension "d83" = 3.302
  dimension "d84" = 2.54
  dimension "d85" = 2.54
  dimension "d86" = 3.302
  dimension "d89" = 3.302
  dimension "d90" = 3.302
  dimension "d95" = 2.54
  dimension "d96" = 2.54
  dimension "d99" = 2.54
  dimension "d100" = 2.54
  dimension "d187" = 7.62
  dimension "d188" = 6.35
  dimension "d195" = 2.54
hole "Hole2" [suppressed]
hole "Hole3" at (-54.356, 3.175, 14.986) at (-19.05, 3.175, 14.986) at (-6.731, 3.175, 14.986) at (28.575, 3.175, 14.986) direction (0, -1, 0) diameter 3.302 end through all
hole "Hole4" at (22.86, 3.175, 15.24) at (-12.7, 3.175, 15.24) at (-24.13, 3.175, 15.24) at (-59.69, 3.175, 15.24) direction (0, -1, 0) diameter 3.302 end through all
hole "Hole5" at (26.67, 3.175, 20.32) at (-39.37, 3.175, 20.32) direction (0, -1, 0) diameter 3.302 end through all
hole "Hole6" [suppressed]
hole "Hole7" at (-35.306, 3.175, -11.557) at (2.921, 3.175, -11.557) at (-22.479, 3.175, 22.225) at (15.748, 3.175, 22.225) at (-9.525, 3.175, -11.557) at (28.702, 3.175, -11.557) direction (0, -1, 0) diameter 3.048 end through all
sketch "Sketch13" plane through (0, 3.175, 0) normal (0, 1, 0) x (1, 0, 0)
  point P0 (0, 0)
  point P1 (50.8, 107.95)
hole "Hole8" at (50.8, 3.175, -107.95) direction (0, -1, 0) diameter 4.191 end through all
sketch "Sketch14" plane through (0, 3.175, 0) normal (0, 1, 0) x (1, 0, 0)
  circle A0 centre (50.8, 107.95) radius 2.0955 projected
  circle A1 centre (-9.525, 11.557) radius 1.524 projected
  circle A2 centre (-22.479, -22.225) radius 1.524 projected
  circle A3 centre (-35.306, 11.557) radius 1.524 projected
  circle A4 centre (2.921, 11.557) radius 1.524 projected
  circle A5 centre (15.748, -22.225) radius 1.524 projected
  circle A6 centre (28.702, 11.557) radius 1.524 projected
  circle A7 centre (26.67, -20.32) radius 1.651 projected
  circle A8 centre (-39.37, -20.32) radius 1.651 projected
  circle A9 centre (-24.13, -15.24) radius 1.651 projected
  circle A10 centre (22.86, -15.24) radius 1.651 projected
  circle A11 centre (-12.7, -15.24) radius 1.651 projected
  circle A12 centre (-59.69, -15.24) radius 1.651 projected
  circle A13 centre (-6.731, -14.986) radius 1.651 projected
  circle A14 centre (-54.356, -14.986) radius 1.651 projected
  circle A15 centre (-19.05, -14.986) radius 1.651 projected
  circle A16 centre (28.575, -14.986) radius 1.651 projected
  arc A17 (15.621, 57.15) -> (22.479, 57.15) centre (19.05, 57.15) ccw projected
  line L0 (15.621, 57.15) -> (15.621, 107.95) projected
  arc A18 (22.479, 107.95) -> (15.621, 107.95) centre (19.05, 107.95) ccw projected
  line L1 (22.479, 107.95) -> (22.479, 57.15) projected
  arc A19 (-41.021, 107.95) -> (-47.879, 107.95) centre (-44.45, 107.95) ccw projected
  line L2 (-41.021, 107.95) -> (-41.021, 57.15) projected
  arc A20 (-47.879, 57.15) -> (-41.021, 57.15) centre (-44.45, 57.15) ccw projected
  line L3 (-47.879, 57.15) -> (-47.879, 107.95) projected
  circle A21 centre (50.8, -44.45) radius 2.0955 projected
  circle A22 centre (-50.8, -44.45) radius 2.0955 projected
  line L4 (63.5, 120.65) -> (-63.5, 120.65) projected
  line L5 (-63.5, 120.65) -> (-63.5, -57.15) projected
  line L6 (-63.5, -57.15) -> (63.5, -57.15) projected
  line L7 (63.5, -57.15) -> (63.5, 120.65) projected
  point P0 (0, 0)
properties part number "bottomLayer"
